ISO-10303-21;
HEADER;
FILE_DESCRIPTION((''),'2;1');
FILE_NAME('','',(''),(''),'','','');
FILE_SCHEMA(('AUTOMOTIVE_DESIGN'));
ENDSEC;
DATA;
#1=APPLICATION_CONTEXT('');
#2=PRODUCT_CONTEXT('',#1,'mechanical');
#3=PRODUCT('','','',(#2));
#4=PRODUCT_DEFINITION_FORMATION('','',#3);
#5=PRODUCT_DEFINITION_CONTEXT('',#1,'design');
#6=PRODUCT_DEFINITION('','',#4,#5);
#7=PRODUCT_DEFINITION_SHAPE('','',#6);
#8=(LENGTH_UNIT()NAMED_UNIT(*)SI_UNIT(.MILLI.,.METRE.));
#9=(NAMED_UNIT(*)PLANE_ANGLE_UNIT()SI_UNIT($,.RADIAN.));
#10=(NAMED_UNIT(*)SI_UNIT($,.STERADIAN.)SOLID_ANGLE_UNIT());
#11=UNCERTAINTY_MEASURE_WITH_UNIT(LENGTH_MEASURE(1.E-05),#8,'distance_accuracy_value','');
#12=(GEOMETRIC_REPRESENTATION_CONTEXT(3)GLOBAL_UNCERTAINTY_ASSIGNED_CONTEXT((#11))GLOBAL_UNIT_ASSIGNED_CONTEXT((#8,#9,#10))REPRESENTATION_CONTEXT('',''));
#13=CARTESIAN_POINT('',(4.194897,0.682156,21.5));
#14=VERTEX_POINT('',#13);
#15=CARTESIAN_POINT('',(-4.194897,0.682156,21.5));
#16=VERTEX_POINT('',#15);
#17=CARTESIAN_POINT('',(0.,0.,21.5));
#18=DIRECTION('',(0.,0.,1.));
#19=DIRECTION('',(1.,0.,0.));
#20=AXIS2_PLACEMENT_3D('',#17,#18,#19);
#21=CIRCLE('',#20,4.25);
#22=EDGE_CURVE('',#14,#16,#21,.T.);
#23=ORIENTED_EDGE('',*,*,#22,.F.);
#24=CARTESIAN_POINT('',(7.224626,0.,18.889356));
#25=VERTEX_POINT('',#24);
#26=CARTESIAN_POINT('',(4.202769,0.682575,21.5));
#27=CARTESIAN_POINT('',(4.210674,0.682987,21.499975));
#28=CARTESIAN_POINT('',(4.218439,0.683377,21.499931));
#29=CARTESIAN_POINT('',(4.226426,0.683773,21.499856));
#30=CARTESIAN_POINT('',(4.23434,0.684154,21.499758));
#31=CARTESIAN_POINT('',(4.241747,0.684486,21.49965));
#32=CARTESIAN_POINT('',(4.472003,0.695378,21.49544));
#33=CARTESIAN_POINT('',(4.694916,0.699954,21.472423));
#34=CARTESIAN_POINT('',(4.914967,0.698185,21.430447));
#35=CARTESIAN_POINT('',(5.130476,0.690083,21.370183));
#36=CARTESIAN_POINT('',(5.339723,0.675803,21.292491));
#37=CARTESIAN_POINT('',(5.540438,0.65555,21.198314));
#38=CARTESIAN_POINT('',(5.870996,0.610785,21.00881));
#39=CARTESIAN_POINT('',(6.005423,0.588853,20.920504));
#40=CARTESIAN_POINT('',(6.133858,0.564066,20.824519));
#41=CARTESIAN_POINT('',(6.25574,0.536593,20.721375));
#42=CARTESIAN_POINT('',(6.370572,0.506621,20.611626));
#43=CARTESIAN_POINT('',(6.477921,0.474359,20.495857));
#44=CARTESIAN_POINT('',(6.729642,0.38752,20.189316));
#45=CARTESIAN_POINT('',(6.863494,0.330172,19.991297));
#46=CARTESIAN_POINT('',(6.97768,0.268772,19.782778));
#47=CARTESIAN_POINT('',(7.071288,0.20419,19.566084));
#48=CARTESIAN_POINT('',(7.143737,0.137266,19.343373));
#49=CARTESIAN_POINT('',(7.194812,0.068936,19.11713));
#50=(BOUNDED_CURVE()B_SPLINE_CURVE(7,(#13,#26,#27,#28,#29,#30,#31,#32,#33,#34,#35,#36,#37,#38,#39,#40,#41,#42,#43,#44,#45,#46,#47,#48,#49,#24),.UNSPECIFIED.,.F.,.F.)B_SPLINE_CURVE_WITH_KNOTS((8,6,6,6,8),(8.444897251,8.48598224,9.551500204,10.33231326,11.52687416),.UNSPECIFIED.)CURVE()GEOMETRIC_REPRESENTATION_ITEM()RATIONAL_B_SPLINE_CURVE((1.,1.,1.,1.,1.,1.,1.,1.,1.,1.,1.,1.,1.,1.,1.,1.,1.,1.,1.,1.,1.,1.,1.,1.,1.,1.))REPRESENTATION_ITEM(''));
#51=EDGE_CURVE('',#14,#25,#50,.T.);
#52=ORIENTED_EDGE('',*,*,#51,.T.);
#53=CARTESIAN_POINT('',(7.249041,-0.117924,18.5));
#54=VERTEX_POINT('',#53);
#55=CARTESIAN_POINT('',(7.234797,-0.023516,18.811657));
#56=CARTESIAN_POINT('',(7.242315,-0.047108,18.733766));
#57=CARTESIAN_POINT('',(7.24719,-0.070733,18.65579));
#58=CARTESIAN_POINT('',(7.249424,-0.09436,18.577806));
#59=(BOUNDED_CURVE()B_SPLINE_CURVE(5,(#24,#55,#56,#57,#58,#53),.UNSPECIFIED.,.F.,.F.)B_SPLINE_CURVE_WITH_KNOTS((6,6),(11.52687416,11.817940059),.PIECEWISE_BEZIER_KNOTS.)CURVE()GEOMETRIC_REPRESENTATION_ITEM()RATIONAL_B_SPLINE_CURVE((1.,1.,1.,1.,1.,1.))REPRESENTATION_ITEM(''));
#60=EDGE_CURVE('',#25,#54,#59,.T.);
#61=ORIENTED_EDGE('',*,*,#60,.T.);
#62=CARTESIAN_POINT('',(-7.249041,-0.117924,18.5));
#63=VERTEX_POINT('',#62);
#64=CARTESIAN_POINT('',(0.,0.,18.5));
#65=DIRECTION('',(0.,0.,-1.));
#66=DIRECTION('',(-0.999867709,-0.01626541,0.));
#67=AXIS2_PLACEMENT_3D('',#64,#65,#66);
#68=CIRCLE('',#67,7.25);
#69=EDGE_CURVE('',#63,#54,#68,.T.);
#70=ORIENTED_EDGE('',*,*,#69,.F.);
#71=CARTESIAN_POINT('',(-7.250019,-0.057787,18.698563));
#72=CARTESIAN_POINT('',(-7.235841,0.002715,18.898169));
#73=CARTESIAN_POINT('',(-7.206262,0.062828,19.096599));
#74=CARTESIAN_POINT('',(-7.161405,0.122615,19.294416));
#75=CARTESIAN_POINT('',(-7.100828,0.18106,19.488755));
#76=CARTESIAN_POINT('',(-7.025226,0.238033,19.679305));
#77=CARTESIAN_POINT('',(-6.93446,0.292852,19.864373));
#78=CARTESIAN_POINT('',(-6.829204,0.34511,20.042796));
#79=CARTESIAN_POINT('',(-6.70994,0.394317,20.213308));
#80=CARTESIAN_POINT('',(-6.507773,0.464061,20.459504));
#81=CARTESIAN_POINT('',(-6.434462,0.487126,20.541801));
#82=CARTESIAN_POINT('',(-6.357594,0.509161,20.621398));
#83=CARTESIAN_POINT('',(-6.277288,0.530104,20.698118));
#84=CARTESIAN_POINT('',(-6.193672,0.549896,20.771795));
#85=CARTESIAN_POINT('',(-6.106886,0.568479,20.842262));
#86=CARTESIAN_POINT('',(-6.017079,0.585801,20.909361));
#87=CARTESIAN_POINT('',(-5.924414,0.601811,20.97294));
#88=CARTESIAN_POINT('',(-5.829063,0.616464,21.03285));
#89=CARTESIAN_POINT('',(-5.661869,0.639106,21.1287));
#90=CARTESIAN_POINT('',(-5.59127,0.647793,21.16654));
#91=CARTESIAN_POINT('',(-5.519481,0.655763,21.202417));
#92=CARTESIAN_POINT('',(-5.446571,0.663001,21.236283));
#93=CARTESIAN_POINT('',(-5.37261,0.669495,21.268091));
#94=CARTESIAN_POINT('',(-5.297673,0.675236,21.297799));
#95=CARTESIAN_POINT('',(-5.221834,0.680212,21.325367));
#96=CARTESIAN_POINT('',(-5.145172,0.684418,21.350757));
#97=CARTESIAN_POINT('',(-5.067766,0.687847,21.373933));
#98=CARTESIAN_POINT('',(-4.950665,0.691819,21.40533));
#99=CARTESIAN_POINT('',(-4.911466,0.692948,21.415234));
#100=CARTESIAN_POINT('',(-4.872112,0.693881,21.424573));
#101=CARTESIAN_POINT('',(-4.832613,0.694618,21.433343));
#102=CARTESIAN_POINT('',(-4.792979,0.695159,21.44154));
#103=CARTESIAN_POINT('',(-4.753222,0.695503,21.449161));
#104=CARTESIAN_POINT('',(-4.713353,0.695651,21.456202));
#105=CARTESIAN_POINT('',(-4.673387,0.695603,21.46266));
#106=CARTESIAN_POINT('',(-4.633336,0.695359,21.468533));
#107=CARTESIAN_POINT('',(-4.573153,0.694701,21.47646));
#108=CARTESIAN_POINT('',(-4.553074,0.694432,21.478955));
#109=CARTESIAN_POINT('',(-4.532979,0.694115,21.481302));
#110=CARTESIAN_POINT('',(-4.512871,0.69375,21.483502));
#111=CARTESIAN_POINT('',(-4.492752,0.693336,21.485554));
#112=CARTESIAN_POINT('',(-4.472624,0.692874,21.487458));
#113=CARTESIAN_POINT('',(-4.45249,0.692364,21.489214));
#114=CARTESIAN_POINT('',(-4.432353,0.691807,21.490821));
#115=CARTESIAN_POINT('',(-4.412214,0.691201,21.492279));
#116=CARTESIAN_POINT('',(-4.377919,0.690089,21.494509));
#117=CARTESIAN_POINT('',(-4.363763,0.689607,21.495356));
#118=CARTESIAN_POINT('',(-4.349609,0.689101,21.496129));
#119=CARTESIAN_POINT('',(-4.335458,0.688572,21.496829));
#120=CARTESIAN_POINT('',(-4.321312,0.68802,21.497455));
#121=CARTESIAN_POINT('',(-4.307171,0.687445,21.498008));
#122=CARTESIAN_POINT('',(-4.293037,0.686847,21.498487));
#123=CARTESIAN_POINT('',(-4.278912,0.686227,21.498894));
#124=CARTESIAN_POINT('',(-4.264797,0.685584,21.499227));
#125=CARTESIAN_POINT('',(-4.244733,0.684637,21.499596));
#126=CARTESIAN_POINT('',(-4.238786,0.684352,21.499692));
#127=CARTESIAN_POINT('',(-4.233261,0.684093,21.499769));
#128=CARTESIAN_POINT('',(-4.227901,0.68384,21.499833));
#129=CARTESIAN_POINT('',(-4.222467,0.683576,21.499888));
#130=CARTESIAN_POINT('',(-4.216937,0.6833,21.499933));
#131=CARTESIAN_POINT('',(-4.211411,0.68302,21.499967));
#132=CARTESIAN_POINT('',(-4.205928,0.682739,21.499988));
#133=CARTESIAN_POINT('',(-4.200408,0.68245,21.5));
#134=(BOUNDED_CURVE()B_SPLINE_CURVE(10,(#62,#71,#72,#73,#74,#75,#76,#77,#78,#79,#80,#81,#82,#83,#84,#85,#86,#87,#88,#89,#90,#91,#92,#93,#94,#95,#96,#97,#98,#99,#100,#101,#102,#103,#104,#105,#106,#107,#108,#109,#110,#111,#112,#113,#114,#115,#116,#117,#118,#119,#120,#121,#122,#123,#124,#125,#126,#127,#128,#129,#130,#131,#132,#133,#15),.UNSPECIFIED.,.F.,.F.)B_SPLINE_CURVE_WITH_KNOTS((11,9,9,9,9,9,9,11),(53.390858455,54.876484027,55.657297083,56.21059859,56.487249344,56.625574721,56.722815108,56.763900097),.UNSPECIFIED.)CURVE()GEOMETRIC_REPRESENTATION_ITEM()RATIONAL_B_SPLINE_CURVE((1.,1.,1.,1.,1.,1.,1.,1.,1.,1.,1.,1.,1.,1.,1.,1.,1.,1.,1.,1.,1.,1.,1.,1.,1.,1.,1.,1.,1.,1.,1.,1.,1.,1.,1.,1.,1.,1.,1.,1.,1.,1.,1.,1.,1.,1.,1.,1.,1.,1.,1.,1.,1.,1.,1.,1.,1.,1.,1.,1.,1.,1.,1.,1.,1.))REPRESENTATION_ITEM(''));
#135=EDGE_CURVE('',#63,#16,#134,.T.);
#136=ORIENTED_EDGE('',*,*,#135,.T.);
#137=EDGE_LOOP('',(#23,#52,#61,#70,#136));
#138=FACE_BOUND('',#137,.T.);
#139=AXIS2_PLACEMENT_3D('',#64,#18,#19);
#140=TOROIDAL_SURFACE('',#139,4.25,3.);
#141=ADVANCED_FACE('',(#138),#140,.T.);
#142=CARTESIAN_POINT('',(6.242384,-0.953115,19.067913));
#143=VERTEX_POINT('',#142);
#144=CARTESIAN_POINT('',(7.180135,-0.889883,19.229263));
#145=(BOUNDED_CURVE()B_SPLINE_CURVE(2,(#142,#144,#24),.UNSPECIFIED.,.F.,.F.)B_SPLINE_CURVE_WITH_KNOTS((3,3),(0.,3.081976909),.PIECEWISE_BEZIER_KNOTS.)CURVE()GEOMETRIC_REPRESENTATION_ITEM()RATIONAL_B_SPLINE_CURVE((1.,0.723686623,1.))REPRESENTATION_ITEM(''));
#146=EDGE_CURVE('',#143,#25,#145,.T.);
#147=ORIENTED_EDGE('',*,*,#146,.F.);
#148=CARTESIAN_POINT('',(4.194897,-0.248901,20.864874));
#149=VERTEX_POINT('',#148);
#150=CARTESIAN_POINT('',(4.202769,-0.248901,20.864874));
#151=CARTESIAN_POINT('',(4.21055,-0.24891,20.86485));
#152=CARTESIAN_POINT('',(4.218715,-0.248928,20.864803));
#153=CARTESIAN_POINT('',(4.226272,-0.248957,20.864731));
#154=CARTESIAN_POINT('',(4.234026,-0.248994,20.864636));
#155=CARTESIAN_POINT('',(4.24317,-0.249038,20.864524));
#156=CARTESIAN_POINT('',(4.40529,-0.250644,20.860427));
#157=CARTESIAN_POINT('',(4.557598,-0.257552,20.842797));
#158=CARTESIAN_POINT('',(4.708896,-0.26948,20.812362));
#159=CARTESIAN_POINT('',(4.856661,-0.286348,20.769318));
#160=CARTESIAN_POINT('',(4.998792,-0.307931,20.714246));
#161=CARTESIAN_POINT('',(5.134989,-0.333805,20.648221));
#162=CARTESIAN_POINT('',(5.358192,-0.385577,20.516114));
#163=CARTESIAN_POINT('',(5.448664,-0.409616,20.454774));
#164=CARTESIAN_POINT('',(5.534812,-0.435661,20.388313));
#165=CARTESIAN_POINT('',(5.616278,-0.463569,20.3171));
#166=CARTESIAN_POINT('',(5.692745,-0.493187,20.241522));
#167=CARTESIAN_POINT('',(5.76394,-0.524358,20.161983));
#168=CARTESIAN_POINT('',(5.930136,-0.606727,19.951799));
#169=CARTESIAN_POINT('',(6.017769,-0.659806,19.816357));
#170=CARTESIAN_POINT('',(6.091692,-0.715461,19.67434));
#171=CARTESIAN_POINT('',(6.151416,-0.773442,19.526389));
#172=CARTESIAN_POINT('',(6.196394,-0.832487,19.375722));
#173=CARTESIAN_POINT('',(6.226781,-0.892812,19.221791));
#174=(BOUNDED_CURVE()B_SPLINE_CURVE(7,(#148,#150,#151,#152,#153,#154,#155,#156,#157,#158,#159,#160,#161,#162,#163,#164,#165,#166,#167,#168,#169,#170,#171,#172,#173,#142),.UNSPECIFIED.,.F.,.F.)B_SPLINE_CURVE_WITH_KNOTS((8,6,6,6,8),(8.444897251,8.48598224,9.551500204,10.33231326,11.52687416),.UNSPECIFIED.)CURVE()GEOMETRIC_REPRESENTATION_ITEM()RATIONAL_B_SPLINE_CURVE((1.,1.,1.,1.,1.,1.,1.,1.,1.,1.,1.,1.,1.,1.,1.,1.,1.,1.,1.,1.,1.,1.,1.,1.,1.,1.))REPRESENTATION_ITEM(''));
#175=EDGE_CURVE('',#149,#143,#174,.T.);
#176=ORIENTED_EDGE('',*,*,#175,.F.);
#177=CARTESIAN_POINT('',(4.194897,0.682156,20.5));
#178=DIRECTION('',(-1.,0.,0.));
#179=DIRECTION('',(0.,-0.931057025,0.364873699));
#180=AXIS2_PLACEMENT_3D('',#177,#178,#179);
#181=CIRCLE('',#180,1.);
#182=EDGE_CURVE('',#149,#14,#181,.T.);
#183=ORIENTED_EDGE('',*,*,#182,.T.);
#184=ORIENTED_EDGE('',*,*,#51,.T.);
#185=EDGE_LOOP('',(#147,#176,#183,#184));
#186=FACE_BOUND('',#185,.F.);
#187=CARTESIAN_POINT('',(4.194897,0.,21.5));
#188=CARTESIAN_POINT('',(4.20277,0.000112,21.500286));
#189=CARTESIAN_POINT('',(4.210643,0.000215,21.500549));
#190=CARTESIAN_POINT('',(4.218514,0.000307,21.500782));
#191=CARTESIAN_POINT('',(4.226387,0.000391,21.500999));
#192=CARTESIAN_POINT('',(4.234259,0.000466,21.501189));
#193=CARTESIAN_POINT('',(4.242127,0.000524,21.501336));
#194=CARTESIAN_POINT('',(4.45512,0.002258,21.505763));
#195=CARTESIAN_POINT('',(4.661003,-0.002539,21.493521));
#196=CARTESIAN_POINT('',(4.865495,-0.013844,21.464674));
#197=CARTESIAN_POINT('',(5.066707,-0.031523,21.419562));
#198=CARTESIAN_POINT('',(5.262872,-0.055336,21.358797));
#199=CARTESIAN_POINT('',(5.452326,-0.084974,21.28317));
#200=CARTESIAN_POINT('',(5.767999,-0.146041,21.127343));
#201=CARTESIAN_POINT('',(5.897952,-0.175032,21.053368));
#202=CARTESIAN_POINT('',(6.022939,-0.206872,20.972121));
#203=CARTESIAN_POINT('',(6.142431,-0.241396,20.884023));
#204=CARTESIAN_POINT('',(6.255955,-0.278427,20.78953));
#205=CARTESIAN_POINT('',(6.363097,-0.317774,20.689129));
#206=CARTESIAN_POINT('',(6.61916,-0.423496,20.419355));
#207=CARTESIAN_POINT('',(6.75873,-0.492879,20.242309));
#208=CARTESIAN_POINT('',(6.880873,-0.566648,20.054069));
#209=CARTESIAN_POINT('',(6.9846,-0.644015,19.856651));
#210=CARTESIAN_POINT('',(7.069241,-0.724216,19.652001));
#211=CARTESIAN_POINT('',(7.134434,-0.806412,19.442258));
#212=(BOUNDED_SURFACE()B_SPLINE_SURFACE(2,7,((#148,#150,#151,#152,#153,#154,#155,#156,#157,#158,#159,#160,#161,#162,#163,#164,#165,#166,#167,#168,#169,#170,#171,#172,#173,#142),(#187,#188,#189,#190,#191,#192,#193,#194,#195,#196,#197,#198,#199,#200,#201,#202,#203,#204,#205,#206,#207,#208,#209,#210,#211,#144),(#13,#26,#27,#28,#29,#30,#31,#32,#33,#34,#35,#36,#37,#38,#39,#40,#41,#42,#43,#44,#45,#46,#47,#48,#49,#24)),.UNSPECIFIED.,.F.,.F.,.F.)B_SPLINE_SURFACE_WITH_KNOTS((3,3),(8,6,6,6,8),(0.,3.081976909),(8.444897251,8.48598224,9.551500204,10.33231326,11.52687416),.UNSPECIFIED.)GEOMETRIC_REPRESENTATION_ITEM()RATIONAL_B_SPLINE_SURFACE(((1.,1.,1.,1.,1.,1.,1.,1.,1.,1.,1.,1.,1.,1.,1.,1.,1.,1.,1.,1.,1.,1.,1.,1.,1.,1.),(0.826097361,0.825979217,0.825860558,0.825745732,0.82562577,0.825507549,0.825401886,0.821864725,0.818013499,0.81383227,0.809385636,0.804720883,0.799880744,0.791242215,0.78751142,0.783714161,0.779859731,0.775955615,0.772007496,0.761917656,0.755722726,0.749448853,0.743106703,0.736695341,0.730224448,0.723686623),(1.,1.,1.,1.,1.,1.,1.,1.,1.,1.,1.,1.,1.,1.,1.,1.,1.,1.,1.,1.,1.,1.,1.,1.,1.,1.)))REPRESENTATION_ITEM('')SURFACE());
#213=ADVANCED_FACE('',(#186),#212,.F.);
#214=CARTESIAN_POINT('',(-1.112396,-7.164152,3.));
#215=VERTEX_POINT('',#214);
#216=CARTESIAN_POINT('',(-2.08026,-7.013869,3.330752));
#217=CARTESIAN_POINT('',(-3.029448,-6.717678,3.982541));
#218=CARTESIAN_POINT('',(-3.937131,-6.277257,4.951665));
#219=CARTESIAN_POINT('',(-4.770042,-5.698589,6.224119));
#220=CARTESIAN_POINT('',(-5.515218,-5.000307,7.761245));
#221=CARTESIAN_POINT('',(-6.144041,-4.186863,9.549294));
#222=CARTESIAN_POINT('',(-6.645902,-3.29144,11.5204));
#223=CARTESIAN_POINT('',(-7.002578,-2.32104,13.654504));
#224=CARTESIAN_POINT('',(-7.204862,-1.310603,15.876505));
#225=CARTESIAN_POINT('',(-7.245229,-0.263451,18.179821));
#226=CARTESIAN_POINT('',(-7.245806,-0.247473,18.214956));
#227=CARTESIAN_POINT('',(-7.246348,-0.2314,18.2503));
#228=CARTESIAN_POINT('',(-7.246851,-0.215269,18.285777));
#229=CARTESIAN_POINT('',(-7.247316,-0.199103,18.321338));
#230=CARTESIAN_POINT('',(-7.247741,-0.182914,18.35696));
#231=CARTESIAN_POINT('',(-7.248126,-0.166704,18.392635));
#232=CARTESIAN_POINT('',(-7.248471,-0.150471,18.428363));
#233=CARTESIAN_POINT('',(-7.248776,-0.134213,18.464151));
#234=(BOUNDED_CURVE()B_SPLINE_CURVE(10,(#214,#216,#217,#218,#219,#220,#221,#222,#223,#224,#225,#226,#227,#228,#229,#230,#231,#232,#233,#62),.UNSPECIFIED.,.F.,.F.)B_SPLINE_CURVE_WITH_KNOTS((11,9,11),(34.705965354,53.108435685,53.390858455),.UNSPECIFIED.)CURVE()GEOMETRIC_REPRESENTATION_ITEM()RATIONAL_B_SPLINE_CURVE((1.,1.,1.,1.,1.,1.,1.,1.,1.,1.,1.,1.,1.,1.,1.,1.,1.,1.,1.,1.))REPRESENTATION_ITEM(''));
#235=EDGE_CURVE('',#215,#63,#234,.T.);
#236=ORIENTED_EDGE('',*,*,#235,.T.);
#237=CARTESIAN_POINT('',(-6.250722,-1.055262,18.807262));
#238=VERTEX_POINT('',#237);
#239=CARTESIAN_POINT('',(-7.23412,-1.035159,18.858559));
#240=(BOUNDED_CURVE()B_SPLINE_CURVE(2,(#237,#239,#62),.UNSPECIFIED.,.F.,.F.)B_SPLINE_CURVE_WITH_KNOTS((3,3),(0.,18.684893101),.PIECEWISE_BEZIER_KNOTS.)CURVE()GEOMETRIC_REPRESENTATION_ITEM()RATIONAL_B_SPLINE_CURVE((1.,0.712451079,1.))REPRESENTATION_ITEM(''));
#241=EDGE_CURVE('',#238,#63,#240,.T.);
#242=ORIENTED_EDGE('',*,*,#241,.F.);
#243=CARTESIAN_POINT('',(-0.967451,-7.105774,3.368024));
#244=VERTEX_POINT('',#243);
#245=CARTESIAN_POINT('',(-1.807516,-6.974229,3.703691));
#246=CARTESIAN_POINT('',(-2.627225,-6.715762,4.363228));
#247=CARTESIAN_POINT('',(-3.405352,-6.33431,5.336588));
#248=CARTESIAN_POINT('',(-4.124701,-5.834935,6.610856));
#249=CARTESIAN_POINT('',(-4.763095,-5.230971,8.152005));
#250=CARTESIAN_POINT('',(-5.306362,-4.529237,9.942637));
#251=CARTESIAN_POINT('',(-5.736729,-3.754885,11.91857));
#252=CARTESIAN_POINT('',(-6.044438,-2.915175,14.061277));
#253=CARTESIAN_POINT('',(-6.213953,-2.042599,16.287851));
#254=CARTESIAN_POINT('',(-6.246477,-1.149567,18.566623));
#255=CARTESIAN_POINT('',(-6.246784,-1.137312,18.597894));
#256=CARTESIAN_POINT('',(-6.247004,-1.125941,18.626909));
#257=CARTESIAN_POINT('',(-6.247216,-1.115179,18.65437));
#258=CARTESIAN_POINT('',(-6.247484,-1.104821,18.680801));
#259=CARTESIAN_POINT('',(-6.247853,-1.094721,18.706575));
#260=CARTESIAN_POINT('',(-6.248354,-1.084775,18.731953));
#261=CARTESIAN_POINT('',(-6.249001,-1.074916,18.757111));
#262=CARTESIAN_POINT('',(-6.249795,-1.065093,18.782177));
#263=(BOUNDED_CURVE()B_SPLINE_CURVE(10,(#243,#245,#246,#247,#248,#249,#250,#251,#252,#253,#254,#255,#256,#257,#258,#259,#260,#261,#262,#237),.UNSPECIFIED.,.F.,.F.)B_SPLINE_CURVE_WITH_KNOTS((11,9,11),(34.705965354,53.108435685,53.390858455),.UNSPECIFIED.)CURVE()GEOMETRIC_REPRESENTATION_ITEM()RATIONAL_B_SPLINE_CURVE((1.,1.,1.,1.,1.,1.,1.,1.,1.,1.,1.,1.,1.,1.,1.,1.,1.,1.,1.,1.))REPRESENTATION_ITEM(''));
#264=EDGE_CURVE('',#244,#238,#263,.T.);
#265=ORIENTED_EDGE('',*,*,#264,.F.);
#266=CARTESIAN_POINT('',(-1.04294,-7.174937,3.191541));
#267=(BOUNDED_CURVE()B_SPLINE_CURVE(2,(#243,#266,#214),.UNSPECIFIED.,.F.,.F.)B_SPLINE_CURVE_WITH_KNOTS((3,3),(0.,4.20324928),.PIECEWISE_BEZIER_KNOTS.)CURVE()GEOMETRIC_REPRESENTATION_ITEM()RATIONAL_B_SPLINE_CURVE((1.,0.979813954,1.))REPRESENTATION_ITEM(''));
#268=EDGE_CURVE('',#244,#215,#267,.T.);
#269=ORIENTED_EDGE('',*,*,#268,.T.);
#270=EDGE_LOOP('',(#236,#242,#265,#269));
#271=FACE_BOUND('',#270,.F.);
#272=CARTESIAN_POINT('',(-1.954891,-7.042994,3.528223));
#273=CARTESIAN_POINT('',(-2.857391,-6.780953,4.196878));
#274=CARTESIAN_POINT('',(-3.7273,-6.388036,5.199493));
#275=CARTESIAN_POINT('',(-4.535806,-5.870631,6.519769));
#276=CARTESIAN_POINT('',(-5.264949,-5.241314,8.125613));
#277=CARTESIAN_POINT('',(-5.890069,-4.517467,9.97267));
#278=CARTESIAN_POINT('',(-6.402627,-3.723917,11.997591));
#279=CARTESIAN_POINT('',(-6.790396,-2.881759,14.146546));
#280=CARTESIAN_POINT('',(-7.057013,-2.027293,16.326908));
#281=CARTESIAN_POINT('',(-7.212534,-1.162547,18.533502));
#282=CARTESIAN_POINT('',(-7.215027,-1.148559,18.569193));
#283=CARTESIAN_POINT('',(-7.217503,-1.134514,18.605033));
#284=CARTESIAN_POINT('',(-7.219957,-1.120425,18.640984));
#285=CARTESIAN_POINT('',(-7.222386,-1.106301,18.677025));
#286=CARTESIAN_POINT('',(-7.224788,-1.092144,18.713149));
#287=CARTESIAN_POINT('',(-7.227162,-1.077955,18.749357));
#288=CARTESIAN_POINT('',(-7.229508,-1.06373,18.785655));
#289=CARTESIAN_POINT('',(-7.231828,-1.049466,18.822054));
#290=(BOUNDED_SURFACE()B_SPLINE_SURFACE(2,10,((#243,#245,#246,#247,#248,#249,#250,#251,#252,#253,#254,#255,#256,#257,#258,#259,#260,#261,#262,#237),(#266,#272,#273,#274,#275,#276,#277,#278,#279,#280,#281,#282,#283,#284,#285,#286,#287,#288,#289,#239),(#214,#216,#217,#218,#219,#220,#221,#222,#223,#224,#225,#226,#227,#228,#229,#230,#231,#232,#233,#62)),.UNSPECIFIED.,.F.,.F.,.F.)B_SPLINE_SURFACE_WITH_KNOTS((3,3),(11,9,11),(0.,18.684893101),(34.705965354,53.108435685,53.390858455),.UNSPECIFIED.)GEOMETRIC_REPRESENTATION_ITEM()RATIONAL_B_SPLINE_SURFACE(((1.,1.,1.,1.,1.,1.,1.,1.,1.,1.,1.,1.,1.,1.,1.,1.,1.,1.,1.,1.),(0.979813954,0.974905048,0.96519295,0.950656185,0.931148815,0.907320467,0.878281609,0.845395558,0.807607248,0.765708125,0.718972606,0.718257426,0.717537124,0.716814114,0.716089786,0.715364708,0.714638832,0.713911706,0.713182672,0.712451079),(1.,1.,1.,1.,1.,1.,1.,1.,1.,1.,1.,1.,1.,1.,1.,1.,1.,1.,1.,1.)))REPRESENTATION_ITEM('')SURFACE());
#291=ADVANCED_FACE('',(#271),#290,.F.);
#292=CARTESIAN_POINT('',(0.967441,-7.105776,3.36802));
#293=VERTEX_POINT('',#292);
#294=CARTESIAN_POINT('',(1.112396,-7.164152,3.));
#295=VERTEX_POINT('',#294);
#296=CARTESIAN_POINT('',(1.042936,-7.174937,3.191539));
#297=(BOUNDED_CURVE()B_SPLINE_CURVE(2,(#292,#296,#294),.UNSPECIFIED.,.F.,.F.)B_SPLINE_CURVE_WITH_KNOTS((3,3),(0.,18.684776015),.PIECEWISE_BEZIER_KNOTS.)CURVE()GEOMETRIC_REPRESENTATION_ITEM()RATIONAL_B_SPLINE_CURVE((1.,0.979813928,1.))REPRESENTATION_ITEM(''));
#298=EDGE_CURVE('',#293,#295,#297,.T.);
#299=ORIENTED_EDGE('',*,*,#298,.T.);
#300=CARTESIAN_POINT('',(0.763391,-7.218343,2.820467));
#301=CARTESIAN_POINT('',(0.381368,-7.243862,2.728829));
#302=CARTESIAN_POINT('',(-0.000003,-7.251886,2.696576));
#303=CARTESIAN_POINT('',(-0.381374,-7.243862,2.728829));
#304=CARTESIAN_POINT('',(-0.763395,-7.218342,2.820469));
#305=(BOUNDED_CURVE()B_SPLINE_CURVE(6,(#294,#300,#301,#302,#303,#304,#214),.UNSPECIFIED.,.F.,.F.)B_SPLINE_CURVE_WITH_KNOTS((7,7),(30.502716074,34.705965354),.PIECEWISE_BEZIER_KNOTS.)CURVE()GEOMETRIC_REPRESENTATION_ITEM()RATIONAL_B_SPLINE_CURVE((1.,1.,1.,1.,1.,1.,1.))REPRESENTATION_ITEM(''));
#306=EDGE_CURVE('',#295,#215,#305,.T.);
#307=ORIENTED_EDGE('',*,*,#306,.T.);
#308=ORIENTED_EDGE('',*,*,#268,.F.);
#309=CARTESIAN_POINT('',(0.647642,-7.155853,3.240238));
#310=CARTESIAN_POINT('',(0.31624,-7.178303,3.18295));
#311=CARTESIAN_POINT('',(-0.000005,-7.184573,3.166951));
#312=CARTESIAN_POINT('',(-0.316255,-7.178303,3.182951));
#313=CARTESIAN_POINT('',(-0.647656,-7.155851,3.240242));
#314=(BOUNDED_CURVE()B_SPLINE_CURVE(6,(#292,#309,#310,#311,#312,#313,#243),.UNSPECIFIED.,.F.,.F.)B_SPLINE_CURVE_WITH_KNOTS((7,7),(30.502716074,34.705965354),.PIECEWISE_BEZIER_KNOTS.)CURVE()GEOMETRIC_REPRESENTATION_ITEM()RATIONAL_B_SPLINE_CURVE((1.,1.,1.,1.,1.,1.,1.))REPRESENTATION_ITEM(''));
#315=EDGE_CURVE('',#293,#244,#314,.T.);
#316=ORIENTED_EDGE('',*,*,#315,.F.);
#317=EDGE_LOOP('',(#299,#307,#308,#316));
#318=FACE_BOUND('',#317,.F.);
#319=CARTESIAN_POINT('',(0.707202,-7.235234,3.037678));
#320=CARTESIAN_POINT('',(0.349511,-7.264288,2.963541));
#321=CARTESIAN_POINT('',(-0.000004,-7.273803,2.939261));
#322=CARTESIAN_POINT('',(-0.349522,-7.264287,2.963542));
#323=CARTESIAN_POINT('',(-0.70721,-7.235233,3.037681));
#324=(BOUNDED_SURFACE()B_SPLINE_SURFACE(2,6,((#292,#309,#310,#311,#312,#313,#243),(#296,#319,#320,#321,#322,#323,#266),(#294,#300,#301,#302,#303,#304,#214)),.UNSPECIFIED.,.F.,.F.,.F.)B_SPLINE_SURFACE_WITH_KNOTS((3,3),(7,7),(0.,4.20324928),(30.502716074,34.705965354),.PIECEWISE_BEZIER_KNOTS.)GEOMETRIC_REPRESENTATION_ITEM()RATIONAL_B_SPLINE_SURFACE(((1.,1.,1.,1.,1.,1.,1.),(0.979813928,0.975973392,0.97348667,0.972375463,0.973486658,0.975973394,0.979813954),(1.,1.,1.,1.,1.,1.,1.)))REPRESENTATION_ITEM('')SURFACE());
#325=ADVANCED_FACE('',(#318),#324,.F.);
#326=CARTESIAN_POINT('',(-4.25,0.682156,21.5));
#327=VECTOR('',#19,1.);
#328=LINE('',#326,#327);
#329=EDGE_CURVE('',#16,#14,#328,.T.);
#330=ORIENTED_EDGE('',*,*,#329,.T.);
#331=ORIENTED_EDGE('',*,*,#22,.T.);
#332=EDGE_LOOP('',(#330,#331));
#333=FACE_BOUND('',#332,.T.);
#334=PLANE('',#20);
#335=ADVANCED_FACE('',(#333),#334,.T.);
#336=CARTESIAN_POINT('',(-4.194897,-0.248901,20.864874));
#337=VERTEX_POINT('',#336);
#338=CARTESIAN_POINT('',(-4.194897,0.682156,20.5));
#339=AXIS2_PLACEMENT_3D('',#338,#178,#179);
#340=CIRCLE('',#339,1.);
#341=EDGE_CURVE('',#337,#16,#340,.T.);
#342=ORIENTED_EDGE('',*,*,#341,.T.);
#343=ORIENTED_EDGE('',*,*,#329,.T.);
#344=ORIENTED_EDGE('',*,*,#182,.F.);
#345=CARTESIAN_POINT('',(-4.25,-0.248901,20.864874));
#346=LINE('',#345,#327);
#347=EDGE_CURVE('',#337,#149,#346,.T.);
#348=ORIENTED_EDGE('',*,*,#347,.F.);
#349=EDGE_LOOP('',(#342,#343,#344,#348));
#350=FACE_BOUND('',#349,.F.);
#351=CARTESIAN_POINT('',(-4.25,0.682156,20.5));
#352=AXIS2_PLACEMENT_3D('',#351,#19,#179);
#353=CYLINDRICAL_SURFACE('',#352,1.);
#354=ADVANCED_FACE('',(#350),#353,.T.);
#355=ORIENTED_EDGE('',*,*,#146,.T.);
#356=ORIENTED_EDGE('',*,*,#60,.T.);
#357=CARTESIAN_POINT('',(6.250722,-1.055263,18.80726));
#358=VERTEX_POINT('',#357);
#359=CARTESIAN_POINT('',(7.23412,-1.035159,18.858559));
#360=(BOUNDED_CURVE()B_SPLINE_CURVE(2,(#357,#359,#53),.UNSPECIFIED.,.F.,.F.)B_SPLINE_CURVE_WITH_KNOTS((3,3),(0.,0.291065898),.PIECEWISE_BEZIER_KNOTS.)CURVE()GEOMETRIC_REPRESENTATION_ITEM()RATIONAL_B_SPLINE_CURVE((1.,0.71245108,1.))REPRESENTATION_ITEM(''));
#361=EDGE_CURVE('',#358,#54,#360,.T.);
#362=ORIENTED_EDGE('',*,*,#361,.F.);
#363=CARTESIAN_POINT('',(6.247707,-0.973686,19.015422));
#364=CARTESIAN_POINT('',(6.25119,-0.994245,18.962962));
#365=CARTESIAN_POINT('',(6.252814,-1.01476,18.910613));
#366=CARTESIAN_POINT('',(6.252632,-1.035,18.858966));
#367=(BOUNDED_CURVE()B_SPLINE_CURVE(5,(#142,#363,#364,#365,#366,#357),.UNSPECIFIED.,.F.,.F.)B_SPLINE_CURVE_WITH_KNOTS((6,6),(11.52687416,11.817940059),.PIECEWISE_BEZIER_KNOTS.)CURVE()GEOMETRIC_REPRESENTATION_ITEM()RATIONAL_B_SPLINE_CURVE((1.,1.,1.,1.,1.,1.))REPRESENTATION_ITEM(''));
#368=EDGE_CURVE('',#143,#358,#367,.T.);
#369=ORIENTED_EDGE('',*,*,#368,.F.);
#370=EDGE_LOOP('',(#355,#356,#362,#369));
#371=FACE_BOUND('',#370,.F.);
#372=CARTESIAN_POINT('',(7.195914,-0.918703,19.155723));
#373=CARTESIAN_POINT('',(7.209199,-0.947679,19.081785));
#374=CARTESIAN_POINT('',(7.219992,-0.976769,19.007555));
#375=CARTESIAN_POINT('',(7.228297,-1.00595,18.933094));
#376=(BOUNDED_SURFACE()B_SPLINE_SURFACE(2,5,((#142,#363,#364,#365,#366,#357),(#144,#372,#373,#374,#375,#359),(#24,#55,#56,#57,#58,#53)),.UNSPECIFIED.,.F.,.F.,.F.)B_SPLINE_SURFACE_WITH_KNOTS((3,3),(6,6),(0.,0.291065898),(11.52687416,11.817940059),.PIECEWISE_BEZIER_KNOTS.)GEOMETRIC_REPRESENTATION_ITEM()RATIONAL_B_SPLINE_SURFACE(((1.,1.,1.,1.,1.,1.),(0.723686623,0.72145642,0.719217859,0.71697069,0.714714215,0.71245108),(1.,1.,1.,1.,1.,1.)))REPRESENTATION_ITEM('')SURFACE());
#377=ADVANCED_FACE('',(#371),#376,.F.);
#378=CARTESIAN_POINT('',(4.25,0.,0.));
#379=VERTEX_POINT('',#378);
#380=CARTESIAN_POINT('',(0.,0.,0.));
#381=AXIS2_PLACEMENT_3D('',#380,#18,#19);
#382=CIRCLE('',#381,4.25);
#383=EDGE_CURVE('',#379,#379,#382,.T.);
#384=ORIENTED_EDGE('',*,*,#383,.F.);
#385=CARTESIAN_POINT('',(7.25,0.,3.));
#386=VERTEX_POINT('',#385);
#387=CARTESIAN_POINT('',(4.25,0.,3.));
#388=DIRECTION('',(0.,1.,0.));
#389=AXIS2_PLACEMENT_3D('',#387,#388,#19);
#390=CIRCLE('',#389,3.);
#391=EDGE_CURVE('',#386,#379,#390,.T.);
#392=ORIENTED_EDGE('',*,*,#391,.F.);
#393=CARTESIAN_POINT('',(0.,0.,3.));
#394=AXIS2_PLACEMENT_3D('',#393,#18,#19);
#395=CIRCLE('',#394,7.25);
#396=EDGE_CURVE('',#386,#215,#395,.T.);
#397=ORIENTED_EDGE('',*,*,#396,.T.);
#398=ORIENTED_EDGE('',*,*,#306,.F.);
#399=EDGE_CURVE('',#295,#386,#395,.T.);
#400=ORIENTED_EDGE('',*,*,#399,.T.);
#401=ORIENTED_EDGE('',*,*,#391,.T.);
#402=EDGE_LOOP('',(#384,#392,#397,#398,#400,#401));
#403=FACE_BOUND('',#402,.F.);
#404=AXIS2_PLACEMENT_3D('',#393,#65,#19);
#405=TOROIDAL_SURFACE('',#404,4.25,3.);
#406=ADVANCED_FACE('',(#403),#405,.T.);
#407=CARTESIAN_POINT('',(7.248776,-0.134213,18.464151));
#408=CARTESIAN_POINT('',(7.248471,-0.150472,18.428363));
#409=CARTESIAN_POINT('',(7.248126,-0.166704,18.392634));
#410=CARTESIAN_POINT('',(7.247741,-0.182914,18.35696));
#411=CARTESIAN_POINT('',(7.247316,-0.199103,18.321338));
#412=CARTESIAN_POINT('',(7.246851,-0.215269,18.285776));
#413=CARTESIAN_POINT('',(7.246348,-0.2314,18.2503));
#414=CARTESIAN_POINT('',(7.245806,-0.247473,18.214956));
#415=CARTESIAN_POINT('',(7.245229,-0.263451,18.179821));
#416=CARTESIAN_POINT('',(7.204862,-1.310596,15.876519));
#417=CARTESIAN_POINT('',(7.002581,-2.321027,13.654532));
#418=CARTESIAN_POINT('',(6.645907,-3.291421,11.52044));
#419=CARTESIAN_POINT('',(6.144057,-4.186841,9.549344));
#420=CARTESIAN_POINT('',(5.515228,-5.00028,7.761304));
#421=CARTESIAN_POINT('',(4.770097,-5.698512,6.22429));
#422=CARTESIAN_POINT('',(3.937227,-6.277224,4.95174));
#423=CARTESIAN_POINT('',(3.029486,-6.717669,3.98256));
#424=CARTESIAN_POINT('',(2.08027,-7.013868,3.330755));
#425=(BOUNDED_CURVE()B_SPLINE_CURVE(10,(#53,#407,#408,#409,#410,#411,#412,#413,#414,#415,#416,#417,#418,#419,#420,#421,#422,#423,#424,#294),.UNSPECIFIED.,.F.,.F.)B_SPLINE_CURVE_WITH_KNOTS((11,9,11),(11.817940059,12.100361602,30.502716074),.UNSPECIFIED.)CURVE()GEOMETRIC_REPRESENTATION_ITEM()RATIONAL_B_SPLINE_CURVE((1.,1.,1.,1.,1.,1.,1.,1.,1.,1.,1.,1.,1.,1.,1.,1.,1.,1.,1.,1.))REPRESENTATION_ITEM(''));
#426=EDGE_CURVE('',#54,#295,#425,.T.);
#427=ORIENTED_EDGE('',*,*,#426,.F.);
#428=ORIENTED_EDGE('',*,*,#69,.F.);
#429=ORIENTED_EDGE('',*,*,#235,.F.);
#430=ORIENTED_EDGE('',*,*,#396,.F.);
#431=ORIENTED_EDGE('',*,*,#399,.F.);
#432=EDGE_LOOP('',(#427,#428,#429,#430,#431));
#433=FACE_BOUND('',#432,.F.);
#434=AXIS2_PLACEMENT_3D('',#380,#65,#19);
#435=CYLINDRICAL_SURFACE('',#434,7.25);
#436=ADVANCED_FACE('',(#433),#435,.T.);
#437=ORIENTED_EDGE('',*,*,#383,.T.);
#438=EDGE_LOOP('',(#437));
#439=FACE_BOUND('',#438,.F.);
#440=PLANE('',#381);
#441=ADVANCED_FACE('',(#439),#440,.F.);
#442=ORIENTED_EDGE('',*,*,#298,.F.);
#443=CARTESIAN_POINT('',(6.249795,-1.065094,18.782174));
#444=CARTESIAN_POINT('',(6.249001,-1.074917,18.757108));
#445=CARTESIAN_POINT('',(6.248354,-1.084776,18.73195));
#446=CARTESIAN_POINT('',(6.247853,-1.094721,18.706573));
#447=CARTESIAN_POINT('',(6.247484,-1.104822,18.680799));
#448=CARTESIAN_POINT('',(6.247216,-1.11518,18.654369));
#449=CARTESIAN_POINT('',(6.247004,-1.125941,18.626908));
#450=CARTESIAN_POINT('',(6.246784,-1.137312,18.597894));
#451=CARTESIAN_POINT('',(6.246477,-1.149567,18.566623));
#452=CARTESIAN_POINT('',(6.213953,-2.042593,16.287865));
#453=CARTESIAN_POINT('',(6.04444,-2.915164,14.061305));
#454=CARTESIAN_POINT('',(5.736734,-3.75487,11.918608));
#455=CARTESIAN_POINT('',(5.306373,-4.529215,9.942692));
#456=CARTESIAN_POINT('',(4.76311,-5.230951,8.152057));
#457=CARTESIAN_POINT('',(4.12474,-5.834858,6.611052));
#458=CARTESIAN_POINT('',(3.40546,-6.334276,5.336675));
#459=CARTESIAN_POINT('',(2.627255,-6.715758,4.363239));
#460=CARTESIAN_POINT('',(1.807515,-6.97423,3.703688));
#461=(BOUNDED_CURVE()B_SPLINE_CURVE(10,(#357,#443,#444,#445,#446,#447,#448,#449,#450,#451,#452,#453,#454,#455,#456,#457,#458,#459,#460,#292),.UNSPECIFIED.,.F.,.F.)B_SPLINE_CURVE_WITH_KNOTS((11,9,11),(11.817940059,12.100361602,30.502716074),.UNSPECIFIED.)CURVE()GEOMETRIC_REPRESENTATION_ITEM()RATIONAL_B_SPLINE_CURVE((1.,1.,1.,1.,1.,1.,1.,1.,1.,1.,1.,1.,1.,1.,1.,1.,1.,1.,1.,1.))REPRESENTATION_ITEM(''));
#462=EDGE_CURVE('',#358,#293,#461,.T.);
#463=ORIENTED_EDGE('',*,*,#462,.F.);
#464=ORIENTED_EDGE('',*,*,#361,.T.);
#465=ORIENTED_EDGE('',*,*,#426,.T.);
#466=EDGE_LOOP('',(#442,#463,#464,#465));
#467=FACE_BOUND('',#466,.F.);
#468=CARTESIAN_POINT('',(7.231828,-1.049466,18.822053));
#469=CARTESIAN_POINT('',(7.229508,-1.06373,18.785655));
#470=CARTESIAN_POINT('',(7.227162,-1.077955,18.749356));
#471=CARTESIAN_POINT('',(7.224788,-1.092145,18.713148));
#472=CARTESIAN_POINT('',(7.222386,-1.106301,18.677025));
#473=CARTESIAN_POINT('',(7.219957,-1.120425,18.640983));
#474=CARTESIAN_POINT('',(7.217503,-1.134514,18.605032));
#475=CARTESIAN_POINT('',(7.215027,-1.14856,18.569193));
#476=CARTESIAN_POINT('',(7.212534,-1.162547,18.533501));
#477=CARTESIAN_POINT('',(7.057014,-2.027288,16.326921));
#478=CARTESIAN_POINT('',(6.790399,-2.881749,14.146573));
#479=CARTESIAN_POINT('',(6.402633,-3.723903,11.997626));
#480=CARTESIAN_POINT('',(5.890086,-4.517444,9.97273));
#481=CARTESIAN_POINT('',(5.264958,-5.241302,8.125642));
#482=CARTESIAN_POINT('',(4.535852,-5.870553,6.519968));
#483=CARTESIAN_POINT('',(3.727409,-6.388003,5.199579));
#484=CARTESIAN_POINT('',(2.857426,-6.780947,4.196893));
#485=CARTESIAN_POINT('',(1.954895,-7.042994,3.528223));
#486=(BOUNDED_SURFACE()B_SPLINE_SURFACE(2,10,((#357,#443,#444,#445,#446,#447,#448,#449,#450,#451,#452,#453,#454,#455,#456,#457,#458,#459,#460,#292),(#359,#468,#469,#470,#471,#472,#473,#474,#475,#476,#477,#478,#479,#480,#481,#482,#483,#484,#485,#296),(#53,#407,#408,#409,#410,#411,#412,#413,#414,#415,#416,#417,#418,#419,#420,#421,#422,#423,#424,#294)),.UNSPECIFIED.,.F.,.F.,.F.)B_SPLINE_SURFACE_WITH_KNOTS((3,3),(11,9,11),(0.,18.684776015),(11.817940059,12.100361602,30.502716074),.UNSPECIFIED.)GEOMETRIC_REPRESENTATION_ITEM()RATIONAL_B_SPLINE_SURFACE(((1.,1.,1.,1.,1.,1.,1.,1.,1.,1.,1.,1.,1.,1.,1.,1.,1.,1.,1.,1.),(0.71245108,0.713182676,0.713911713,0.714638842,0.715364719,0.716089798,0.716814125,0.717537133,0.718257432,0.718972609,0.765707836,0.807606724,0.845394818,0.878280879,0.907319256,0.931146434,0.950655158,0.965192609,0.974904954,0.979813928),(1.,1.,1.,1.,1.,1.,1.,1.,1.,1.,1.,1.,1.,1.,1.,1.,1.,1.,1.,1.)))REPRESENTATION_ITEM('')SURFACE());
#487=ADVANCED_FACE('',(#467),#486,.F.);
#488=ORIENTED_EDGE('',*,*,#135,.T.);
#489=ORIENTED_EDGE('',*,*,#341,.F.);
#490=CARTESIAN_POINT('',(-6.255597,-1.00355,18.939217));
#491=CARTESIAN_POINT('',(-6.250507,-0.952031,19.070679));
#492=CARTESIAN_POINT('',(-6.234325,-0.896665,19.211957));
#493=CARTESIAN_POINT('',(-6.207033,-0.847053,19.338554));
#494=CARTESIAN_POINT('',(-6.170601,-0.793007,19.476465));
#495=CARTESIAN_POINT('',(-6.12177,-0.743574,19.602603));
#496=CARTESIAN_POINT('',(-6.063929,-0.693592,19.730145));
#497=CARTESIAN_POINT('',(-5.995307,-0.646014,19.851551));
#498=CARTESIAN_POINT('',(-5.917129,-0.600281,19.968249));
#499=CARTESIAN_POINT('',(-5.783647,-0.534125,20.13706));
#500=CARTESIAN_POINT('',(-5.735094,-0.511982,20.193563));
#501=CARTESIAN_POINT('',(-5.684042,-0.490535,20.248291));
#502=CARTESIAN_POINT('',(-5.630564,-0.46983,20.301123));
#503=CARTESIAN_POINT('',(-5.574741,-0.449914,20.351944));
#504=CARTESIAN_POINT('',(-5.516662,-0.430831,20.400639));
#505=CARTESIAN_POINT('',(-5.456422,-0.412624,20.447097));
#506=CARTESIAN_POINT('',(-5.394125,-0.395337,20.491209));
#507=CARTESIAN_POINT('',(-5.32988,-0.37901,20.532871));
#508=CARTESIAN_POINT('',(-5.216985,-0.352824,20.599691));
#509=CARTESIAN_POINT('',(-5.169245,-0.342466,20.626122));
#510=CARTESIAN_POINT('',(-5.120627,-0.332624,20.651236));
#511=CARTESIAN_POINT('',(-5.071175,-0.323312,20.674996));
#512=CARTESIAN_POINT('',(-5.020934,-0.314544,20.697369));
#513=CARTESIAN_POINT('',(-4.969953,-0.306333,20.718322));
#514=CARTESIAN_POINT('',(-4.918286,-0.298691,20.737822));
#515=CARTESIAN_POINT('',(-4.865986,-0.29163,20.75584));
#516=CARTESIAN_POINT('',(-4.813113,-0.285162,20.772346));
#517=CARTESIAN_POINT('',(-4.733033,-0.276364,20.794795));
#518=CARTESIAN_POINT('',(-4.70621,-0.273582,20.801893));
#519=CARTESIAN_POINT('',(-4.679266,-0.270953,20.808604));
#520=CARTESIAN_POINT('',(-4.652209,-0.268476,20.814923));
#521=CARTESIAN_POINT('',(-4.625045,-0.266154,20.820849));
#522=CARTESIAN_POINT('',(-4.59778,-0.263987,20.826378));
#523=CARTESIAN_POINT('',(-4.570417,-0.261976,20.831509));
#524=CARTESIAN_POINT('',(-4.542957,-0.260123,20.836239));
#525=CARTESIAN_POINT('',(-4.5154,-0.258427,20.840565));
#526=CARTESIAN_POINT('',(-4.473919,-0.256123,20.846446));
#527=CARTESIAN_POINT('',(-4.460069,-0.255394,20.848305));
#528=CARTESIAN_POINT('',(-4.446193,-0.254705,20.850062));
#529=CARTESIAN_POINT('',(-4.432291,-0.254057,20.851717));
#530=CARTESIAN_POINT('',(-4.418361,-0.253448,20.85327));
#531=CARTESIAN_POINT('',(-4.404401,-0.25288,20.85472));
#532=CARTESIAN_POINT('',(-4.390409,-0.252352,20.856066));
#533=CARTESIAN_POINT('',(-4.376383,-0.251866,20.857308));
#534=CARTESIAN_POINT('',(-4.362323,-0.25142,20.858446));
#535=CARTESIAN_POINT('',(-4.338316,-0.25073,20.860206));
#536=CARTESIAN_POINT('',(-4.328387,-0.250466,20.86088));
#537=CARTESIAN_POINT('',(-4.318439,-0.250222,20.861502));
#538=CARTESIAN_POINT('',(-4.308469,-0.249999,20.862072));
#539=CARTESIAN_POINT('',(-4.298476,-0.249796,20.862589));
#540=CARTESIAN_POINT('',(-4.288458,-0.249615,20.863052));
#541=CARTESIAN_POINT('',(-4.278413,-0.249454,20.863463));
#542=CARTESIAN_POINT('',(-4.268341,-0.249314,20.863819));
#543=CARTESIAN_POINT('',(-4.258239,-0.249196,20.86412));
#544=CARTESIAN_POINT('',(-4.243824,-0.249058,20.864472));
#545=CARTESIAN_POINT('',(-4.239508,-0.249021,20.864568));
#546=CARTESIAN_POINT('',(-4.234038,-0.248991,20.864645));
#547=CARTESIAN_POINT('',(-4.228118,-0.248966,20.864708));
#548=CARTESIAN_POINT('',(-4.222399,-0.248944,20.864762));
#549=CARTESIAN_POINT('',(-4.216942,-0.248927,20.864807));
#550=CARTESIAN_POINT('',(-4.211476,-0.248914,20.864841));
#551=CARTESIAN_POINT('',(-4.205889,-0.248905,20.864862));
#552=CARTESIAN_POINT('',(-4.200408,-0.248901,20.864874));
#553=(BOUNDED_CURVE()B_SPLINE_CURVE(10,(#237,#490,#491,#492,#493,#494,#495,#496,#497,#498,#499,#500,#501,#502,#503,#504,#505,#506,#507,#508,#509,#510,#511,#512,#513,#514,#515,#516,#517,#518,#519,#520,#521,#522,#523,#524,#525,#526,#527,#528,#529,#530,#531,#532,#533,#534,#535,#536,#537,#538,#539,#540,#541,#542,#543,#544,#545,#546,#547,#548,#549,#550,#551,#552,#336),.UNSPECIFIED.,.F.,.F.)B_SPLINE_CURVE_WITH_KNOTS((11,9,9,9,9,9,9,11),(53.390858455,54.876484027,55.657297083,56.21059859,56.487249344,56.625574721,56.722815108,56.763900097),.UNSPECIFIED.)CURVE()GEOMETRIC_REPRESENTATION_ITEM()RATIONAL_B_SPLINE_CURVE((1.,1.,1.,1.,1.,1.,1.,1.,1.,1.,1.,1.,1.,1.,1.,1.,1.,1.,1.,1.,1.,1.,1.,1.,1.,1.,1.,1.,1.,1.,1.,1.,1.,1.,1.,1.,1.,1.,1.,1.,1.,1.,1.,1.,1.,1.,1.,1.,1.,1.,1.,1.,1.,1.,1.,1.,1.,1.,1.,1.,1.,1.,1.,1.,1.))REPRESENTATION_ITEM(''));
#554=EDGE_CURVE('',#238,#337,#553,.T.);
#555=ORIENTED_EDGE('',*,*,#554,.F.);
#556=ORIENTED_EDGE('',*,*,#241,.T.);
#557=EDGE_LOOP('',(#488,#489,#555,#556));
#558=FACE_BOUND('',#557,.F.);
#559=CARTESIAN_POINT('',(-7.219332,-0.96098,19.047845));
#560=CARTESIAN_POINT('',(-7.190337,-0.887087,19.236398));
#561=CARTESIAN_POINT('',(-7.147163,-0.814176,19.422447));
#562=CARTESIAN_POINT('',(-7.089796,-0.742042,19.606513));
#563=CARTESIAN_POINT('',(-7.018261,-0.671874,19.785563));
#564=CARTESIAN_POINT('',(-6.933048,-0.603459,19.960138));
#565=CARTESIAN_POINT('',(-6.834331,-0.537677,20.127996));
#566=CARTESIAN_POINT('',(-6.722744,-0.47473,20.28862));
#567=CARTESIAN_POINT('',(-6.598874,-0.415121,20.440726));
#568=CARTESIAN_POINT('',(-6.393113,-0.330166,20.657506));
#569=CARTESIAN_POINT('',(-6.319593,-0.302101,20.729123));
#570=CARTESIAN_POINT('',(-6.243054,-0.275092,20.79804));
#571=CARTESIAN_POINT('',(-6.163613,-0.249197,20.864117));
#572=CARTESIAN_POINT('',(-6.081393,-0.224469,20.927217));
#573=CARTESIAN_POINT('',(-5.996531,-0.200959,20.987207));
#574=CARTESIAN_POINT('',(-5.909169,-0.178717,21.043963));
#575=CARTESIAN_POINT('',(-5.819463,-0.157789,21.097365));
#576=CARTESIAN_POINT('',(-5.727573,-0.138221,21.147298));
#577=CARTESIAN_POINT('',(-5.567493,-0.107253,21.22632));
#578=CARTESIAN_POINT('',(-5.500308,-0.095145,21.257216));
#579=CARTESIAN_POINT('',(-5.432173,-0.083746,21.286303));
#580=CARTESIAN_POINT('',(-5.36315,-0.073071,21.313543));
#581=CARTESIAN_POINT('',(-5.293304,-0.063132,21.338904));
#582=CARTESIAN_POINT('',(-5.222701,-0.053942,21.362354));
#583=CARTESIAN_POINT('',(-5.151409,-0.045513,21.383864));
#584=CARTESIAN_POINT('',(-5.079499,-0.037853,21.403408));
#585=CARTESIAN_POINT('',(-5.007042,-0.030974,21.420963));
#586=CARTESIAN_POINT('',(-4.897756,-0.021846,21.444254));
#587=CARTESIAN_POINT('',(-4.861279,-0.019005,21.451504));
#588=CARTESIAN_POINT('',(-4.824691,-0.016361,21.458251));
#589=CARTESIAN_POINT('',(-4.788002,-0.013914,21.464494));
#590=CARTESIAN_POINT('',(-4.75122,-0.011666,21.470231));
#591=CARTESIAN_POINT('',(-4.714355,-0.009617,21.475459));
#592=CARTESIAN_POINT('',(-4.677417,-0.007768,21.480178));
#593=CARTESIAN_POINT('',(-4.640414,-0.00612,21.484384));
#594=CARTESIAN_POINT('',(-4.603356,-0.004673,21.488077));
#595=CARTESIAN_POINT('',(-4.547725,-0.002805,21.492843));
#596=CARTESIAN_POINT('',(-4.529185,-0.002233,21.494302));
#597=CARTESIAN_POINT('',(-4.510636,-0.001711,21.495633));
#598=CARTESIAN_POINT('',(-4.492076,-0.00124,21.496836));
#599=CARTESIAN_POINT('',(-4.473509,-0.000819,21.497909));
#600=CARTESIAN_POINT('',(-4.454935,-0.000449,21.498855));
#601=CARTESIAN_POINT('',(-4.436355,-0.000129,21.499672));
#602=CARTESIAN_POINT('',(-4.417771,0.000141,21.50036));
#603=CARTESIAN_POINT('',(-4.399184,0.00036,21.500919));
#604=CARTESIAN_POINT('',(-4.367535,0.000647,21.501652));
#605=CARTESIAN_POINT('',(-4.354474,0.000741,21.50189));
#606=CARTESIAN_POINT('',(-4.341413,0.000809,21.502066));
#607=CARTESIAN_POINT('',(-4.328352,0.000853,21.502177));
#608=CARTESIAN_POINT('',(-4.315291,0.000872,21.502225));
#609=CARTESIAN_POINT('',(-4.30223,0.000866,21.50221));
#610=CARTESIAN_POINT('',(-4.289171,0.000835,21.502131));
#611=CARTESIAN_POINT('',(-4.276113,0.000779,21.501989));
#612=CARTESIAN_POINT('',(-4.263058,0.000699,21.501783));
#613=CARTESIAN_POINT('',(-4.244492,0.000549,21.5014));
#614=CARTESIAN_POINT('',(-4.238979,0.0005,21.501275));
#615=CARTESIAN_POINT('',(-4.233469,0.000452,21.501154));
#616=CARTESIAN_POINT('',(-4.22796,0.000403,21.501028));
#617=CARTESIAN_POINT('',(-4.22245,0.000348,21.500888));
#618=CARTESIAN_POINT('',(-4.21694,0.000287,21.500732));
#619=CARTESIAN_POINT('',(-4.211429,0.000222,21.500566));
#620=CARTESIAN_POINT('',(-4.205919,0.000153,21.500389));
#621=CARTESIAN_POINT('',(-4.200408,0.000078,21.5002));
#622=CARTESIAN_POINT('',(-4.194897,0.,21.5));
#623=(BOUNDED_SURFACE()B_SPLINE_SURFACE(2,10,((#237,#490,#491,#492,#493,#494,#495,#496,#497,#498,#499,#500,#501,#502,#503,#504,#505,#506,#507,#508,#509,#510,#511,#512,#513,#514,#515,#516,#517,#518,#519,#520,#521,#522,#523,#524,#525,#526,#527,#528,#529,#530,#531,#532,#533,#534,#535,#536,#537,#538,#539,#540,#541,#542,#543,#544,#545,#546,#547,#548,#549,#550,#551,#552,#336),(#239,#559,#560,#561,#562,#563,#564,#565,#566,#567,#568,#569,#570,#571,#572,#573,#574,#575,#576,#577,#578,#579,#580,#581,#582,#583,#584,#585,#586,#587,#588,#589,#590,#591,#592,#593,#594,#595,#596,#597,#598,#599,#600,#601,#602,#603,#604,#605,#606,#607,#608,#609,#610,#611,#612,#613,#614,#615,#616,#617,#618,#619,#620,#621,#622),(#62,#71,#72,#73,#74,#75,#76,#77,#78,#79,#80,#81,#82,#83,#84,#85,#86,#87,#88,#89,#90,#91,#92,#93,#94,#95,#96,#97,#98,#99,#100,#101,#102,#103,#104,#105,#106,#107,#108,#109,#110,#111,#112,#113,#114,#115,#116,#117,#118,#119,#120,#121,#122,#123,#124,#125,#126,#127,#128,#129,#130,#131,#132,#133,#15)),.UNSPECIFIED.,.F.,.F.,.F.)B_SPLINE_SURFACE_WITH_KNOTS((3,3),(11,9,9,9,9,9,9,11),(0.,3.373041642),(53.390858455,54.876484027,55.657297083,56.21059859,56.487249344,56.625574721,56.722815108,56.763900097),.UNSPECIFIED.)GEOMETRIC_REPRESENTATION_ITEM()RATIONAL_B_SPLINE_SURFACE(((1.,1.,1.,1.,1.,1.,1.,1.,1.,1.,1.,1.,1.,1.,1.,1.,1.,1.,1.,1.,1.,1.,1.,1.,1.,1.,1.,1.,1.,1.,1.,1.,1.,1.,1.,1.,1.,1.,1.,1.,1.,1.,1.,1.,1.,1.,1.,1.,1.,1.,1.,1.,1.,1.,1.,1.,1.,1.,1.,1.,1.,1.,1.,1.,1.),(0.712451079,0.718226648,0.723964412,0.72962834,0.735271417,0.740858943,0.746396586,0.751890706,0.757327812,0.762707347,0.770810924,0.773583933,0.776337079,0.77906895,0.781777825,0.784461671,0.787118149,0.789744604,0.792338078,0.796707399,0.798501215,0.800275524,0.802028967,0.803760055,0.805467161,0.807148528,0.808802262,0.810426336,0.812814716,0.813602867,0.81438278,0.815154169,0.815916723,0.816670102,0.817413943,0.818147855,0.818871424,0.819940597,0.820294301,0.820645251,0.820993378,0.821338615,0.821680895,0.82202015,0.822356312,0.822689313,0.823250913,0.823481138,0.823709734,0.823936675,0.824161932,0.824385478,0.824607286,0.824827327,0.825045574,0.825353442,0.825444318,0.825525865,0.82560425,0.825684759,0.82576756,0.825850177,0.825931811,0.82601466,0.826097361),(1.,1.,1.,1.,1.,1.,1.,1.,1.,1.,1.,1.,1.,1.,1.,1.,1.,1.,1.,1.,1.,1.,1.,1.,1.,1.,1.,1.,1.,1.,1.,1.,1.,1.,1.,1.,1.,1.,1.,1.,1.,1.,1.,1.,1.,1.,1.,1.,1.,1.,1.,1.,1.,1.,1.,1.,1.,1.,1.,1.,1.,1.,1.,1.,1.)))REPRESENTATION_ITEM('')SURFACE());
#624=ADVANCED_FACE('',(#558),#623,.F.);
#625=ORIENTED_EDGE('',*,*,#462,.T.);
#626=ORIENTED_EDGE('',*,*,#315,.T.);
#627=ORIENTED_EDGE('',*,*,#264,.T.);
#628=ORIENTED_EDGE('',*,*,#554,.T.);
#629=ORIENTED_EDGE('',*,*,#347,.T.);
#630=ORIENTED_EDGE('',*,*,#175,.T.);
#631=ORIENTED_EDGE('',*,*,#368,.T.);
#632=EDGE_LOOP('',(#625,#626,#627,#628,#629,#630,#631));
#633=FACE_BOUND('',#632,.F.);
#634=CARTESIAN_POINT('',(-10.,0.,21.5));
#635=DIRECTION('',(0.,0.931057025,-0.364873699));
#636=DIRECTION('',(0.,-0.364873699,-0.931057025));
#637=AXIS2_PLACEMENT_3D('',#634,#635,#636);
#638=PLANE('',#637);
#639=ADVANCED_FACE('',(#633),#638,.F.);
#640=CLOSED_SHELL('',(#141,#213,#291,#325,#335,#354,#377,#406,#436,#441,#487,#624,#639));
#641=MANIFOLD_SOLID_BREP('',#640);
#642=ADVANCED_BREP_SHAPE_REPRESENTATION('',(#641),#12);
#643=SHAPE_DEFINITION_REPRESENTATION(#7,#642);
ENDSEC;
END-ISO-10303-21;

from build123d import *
from build123d.topology import SkipClean

# Parameters (mm, degrees)
SKETCH2_R               = 7.25
BOSS_EXTRUDE1_DEPTH     = 21.5
FILLET1_R               = 3
CUT_EXTRUDE1_DEPTH      = 10
CUT_EXTRUDE1_DEPTH_BACK = 10
FILLET2_R               = 1


with BuildPart() as part:
    # Sketch2 → Boss-Extrude1 (new body)
    with BuildSketch(Plane.XY):
        Circle(SKETCH2_R)
    extrude(amount=BOSS_EXTRUDE1_DEPTH)

    # Fillet1
    fillet1_edges = [part.edges().sort_by_distance(p)[0] for p in [
        (-7.25, 0, 0),
        (-7.25, 0, 21.5),
    ]]
    fillet(fillet1_edges, radius=FILLET1_R)

    # Sketch3 → Cut-Extrude1 (cut, two sides: drawn at the far end of the back side and taken through both)
    with SkipClean():  # the faces are left unmerged after this step: merging them gives an invalid solid
        with BuildSketch(Plane(origin=(0, 0, 0), x_dir=(0, 0, -1), z_dir=(1, 0, 0)).offset(-CUT_EXTRUDE1_DEPTH_BACK)):
            Polygon((-21.5, 0), (-3, -7.25), (-3, -10.4048104), (-21.5, -10.4048104), align=None)
        extrude(amount=CUT_EXTRUDE1_DEPTH + CUT_EXTRUDE1_DEPTH_BACK, mode=Mode.SUBTRACT)

    # Fillet2
    fillet2_edges = [part.edges().sort_by_distance(p)[0] for p in [
        (0, 0, 21.5),
        (5.577786863, -4.631500158, 9.681689251),
        (6.394161679, -0.357412535, 20.587981808),
        (-6.394161651, -0.357412523, 20.587981837),
        (-5.577786862, -4.631500159, 9.68168925),
    ]]
    fillet(fillet2_edges, radius=FILLET2_R)


solid = part.part
